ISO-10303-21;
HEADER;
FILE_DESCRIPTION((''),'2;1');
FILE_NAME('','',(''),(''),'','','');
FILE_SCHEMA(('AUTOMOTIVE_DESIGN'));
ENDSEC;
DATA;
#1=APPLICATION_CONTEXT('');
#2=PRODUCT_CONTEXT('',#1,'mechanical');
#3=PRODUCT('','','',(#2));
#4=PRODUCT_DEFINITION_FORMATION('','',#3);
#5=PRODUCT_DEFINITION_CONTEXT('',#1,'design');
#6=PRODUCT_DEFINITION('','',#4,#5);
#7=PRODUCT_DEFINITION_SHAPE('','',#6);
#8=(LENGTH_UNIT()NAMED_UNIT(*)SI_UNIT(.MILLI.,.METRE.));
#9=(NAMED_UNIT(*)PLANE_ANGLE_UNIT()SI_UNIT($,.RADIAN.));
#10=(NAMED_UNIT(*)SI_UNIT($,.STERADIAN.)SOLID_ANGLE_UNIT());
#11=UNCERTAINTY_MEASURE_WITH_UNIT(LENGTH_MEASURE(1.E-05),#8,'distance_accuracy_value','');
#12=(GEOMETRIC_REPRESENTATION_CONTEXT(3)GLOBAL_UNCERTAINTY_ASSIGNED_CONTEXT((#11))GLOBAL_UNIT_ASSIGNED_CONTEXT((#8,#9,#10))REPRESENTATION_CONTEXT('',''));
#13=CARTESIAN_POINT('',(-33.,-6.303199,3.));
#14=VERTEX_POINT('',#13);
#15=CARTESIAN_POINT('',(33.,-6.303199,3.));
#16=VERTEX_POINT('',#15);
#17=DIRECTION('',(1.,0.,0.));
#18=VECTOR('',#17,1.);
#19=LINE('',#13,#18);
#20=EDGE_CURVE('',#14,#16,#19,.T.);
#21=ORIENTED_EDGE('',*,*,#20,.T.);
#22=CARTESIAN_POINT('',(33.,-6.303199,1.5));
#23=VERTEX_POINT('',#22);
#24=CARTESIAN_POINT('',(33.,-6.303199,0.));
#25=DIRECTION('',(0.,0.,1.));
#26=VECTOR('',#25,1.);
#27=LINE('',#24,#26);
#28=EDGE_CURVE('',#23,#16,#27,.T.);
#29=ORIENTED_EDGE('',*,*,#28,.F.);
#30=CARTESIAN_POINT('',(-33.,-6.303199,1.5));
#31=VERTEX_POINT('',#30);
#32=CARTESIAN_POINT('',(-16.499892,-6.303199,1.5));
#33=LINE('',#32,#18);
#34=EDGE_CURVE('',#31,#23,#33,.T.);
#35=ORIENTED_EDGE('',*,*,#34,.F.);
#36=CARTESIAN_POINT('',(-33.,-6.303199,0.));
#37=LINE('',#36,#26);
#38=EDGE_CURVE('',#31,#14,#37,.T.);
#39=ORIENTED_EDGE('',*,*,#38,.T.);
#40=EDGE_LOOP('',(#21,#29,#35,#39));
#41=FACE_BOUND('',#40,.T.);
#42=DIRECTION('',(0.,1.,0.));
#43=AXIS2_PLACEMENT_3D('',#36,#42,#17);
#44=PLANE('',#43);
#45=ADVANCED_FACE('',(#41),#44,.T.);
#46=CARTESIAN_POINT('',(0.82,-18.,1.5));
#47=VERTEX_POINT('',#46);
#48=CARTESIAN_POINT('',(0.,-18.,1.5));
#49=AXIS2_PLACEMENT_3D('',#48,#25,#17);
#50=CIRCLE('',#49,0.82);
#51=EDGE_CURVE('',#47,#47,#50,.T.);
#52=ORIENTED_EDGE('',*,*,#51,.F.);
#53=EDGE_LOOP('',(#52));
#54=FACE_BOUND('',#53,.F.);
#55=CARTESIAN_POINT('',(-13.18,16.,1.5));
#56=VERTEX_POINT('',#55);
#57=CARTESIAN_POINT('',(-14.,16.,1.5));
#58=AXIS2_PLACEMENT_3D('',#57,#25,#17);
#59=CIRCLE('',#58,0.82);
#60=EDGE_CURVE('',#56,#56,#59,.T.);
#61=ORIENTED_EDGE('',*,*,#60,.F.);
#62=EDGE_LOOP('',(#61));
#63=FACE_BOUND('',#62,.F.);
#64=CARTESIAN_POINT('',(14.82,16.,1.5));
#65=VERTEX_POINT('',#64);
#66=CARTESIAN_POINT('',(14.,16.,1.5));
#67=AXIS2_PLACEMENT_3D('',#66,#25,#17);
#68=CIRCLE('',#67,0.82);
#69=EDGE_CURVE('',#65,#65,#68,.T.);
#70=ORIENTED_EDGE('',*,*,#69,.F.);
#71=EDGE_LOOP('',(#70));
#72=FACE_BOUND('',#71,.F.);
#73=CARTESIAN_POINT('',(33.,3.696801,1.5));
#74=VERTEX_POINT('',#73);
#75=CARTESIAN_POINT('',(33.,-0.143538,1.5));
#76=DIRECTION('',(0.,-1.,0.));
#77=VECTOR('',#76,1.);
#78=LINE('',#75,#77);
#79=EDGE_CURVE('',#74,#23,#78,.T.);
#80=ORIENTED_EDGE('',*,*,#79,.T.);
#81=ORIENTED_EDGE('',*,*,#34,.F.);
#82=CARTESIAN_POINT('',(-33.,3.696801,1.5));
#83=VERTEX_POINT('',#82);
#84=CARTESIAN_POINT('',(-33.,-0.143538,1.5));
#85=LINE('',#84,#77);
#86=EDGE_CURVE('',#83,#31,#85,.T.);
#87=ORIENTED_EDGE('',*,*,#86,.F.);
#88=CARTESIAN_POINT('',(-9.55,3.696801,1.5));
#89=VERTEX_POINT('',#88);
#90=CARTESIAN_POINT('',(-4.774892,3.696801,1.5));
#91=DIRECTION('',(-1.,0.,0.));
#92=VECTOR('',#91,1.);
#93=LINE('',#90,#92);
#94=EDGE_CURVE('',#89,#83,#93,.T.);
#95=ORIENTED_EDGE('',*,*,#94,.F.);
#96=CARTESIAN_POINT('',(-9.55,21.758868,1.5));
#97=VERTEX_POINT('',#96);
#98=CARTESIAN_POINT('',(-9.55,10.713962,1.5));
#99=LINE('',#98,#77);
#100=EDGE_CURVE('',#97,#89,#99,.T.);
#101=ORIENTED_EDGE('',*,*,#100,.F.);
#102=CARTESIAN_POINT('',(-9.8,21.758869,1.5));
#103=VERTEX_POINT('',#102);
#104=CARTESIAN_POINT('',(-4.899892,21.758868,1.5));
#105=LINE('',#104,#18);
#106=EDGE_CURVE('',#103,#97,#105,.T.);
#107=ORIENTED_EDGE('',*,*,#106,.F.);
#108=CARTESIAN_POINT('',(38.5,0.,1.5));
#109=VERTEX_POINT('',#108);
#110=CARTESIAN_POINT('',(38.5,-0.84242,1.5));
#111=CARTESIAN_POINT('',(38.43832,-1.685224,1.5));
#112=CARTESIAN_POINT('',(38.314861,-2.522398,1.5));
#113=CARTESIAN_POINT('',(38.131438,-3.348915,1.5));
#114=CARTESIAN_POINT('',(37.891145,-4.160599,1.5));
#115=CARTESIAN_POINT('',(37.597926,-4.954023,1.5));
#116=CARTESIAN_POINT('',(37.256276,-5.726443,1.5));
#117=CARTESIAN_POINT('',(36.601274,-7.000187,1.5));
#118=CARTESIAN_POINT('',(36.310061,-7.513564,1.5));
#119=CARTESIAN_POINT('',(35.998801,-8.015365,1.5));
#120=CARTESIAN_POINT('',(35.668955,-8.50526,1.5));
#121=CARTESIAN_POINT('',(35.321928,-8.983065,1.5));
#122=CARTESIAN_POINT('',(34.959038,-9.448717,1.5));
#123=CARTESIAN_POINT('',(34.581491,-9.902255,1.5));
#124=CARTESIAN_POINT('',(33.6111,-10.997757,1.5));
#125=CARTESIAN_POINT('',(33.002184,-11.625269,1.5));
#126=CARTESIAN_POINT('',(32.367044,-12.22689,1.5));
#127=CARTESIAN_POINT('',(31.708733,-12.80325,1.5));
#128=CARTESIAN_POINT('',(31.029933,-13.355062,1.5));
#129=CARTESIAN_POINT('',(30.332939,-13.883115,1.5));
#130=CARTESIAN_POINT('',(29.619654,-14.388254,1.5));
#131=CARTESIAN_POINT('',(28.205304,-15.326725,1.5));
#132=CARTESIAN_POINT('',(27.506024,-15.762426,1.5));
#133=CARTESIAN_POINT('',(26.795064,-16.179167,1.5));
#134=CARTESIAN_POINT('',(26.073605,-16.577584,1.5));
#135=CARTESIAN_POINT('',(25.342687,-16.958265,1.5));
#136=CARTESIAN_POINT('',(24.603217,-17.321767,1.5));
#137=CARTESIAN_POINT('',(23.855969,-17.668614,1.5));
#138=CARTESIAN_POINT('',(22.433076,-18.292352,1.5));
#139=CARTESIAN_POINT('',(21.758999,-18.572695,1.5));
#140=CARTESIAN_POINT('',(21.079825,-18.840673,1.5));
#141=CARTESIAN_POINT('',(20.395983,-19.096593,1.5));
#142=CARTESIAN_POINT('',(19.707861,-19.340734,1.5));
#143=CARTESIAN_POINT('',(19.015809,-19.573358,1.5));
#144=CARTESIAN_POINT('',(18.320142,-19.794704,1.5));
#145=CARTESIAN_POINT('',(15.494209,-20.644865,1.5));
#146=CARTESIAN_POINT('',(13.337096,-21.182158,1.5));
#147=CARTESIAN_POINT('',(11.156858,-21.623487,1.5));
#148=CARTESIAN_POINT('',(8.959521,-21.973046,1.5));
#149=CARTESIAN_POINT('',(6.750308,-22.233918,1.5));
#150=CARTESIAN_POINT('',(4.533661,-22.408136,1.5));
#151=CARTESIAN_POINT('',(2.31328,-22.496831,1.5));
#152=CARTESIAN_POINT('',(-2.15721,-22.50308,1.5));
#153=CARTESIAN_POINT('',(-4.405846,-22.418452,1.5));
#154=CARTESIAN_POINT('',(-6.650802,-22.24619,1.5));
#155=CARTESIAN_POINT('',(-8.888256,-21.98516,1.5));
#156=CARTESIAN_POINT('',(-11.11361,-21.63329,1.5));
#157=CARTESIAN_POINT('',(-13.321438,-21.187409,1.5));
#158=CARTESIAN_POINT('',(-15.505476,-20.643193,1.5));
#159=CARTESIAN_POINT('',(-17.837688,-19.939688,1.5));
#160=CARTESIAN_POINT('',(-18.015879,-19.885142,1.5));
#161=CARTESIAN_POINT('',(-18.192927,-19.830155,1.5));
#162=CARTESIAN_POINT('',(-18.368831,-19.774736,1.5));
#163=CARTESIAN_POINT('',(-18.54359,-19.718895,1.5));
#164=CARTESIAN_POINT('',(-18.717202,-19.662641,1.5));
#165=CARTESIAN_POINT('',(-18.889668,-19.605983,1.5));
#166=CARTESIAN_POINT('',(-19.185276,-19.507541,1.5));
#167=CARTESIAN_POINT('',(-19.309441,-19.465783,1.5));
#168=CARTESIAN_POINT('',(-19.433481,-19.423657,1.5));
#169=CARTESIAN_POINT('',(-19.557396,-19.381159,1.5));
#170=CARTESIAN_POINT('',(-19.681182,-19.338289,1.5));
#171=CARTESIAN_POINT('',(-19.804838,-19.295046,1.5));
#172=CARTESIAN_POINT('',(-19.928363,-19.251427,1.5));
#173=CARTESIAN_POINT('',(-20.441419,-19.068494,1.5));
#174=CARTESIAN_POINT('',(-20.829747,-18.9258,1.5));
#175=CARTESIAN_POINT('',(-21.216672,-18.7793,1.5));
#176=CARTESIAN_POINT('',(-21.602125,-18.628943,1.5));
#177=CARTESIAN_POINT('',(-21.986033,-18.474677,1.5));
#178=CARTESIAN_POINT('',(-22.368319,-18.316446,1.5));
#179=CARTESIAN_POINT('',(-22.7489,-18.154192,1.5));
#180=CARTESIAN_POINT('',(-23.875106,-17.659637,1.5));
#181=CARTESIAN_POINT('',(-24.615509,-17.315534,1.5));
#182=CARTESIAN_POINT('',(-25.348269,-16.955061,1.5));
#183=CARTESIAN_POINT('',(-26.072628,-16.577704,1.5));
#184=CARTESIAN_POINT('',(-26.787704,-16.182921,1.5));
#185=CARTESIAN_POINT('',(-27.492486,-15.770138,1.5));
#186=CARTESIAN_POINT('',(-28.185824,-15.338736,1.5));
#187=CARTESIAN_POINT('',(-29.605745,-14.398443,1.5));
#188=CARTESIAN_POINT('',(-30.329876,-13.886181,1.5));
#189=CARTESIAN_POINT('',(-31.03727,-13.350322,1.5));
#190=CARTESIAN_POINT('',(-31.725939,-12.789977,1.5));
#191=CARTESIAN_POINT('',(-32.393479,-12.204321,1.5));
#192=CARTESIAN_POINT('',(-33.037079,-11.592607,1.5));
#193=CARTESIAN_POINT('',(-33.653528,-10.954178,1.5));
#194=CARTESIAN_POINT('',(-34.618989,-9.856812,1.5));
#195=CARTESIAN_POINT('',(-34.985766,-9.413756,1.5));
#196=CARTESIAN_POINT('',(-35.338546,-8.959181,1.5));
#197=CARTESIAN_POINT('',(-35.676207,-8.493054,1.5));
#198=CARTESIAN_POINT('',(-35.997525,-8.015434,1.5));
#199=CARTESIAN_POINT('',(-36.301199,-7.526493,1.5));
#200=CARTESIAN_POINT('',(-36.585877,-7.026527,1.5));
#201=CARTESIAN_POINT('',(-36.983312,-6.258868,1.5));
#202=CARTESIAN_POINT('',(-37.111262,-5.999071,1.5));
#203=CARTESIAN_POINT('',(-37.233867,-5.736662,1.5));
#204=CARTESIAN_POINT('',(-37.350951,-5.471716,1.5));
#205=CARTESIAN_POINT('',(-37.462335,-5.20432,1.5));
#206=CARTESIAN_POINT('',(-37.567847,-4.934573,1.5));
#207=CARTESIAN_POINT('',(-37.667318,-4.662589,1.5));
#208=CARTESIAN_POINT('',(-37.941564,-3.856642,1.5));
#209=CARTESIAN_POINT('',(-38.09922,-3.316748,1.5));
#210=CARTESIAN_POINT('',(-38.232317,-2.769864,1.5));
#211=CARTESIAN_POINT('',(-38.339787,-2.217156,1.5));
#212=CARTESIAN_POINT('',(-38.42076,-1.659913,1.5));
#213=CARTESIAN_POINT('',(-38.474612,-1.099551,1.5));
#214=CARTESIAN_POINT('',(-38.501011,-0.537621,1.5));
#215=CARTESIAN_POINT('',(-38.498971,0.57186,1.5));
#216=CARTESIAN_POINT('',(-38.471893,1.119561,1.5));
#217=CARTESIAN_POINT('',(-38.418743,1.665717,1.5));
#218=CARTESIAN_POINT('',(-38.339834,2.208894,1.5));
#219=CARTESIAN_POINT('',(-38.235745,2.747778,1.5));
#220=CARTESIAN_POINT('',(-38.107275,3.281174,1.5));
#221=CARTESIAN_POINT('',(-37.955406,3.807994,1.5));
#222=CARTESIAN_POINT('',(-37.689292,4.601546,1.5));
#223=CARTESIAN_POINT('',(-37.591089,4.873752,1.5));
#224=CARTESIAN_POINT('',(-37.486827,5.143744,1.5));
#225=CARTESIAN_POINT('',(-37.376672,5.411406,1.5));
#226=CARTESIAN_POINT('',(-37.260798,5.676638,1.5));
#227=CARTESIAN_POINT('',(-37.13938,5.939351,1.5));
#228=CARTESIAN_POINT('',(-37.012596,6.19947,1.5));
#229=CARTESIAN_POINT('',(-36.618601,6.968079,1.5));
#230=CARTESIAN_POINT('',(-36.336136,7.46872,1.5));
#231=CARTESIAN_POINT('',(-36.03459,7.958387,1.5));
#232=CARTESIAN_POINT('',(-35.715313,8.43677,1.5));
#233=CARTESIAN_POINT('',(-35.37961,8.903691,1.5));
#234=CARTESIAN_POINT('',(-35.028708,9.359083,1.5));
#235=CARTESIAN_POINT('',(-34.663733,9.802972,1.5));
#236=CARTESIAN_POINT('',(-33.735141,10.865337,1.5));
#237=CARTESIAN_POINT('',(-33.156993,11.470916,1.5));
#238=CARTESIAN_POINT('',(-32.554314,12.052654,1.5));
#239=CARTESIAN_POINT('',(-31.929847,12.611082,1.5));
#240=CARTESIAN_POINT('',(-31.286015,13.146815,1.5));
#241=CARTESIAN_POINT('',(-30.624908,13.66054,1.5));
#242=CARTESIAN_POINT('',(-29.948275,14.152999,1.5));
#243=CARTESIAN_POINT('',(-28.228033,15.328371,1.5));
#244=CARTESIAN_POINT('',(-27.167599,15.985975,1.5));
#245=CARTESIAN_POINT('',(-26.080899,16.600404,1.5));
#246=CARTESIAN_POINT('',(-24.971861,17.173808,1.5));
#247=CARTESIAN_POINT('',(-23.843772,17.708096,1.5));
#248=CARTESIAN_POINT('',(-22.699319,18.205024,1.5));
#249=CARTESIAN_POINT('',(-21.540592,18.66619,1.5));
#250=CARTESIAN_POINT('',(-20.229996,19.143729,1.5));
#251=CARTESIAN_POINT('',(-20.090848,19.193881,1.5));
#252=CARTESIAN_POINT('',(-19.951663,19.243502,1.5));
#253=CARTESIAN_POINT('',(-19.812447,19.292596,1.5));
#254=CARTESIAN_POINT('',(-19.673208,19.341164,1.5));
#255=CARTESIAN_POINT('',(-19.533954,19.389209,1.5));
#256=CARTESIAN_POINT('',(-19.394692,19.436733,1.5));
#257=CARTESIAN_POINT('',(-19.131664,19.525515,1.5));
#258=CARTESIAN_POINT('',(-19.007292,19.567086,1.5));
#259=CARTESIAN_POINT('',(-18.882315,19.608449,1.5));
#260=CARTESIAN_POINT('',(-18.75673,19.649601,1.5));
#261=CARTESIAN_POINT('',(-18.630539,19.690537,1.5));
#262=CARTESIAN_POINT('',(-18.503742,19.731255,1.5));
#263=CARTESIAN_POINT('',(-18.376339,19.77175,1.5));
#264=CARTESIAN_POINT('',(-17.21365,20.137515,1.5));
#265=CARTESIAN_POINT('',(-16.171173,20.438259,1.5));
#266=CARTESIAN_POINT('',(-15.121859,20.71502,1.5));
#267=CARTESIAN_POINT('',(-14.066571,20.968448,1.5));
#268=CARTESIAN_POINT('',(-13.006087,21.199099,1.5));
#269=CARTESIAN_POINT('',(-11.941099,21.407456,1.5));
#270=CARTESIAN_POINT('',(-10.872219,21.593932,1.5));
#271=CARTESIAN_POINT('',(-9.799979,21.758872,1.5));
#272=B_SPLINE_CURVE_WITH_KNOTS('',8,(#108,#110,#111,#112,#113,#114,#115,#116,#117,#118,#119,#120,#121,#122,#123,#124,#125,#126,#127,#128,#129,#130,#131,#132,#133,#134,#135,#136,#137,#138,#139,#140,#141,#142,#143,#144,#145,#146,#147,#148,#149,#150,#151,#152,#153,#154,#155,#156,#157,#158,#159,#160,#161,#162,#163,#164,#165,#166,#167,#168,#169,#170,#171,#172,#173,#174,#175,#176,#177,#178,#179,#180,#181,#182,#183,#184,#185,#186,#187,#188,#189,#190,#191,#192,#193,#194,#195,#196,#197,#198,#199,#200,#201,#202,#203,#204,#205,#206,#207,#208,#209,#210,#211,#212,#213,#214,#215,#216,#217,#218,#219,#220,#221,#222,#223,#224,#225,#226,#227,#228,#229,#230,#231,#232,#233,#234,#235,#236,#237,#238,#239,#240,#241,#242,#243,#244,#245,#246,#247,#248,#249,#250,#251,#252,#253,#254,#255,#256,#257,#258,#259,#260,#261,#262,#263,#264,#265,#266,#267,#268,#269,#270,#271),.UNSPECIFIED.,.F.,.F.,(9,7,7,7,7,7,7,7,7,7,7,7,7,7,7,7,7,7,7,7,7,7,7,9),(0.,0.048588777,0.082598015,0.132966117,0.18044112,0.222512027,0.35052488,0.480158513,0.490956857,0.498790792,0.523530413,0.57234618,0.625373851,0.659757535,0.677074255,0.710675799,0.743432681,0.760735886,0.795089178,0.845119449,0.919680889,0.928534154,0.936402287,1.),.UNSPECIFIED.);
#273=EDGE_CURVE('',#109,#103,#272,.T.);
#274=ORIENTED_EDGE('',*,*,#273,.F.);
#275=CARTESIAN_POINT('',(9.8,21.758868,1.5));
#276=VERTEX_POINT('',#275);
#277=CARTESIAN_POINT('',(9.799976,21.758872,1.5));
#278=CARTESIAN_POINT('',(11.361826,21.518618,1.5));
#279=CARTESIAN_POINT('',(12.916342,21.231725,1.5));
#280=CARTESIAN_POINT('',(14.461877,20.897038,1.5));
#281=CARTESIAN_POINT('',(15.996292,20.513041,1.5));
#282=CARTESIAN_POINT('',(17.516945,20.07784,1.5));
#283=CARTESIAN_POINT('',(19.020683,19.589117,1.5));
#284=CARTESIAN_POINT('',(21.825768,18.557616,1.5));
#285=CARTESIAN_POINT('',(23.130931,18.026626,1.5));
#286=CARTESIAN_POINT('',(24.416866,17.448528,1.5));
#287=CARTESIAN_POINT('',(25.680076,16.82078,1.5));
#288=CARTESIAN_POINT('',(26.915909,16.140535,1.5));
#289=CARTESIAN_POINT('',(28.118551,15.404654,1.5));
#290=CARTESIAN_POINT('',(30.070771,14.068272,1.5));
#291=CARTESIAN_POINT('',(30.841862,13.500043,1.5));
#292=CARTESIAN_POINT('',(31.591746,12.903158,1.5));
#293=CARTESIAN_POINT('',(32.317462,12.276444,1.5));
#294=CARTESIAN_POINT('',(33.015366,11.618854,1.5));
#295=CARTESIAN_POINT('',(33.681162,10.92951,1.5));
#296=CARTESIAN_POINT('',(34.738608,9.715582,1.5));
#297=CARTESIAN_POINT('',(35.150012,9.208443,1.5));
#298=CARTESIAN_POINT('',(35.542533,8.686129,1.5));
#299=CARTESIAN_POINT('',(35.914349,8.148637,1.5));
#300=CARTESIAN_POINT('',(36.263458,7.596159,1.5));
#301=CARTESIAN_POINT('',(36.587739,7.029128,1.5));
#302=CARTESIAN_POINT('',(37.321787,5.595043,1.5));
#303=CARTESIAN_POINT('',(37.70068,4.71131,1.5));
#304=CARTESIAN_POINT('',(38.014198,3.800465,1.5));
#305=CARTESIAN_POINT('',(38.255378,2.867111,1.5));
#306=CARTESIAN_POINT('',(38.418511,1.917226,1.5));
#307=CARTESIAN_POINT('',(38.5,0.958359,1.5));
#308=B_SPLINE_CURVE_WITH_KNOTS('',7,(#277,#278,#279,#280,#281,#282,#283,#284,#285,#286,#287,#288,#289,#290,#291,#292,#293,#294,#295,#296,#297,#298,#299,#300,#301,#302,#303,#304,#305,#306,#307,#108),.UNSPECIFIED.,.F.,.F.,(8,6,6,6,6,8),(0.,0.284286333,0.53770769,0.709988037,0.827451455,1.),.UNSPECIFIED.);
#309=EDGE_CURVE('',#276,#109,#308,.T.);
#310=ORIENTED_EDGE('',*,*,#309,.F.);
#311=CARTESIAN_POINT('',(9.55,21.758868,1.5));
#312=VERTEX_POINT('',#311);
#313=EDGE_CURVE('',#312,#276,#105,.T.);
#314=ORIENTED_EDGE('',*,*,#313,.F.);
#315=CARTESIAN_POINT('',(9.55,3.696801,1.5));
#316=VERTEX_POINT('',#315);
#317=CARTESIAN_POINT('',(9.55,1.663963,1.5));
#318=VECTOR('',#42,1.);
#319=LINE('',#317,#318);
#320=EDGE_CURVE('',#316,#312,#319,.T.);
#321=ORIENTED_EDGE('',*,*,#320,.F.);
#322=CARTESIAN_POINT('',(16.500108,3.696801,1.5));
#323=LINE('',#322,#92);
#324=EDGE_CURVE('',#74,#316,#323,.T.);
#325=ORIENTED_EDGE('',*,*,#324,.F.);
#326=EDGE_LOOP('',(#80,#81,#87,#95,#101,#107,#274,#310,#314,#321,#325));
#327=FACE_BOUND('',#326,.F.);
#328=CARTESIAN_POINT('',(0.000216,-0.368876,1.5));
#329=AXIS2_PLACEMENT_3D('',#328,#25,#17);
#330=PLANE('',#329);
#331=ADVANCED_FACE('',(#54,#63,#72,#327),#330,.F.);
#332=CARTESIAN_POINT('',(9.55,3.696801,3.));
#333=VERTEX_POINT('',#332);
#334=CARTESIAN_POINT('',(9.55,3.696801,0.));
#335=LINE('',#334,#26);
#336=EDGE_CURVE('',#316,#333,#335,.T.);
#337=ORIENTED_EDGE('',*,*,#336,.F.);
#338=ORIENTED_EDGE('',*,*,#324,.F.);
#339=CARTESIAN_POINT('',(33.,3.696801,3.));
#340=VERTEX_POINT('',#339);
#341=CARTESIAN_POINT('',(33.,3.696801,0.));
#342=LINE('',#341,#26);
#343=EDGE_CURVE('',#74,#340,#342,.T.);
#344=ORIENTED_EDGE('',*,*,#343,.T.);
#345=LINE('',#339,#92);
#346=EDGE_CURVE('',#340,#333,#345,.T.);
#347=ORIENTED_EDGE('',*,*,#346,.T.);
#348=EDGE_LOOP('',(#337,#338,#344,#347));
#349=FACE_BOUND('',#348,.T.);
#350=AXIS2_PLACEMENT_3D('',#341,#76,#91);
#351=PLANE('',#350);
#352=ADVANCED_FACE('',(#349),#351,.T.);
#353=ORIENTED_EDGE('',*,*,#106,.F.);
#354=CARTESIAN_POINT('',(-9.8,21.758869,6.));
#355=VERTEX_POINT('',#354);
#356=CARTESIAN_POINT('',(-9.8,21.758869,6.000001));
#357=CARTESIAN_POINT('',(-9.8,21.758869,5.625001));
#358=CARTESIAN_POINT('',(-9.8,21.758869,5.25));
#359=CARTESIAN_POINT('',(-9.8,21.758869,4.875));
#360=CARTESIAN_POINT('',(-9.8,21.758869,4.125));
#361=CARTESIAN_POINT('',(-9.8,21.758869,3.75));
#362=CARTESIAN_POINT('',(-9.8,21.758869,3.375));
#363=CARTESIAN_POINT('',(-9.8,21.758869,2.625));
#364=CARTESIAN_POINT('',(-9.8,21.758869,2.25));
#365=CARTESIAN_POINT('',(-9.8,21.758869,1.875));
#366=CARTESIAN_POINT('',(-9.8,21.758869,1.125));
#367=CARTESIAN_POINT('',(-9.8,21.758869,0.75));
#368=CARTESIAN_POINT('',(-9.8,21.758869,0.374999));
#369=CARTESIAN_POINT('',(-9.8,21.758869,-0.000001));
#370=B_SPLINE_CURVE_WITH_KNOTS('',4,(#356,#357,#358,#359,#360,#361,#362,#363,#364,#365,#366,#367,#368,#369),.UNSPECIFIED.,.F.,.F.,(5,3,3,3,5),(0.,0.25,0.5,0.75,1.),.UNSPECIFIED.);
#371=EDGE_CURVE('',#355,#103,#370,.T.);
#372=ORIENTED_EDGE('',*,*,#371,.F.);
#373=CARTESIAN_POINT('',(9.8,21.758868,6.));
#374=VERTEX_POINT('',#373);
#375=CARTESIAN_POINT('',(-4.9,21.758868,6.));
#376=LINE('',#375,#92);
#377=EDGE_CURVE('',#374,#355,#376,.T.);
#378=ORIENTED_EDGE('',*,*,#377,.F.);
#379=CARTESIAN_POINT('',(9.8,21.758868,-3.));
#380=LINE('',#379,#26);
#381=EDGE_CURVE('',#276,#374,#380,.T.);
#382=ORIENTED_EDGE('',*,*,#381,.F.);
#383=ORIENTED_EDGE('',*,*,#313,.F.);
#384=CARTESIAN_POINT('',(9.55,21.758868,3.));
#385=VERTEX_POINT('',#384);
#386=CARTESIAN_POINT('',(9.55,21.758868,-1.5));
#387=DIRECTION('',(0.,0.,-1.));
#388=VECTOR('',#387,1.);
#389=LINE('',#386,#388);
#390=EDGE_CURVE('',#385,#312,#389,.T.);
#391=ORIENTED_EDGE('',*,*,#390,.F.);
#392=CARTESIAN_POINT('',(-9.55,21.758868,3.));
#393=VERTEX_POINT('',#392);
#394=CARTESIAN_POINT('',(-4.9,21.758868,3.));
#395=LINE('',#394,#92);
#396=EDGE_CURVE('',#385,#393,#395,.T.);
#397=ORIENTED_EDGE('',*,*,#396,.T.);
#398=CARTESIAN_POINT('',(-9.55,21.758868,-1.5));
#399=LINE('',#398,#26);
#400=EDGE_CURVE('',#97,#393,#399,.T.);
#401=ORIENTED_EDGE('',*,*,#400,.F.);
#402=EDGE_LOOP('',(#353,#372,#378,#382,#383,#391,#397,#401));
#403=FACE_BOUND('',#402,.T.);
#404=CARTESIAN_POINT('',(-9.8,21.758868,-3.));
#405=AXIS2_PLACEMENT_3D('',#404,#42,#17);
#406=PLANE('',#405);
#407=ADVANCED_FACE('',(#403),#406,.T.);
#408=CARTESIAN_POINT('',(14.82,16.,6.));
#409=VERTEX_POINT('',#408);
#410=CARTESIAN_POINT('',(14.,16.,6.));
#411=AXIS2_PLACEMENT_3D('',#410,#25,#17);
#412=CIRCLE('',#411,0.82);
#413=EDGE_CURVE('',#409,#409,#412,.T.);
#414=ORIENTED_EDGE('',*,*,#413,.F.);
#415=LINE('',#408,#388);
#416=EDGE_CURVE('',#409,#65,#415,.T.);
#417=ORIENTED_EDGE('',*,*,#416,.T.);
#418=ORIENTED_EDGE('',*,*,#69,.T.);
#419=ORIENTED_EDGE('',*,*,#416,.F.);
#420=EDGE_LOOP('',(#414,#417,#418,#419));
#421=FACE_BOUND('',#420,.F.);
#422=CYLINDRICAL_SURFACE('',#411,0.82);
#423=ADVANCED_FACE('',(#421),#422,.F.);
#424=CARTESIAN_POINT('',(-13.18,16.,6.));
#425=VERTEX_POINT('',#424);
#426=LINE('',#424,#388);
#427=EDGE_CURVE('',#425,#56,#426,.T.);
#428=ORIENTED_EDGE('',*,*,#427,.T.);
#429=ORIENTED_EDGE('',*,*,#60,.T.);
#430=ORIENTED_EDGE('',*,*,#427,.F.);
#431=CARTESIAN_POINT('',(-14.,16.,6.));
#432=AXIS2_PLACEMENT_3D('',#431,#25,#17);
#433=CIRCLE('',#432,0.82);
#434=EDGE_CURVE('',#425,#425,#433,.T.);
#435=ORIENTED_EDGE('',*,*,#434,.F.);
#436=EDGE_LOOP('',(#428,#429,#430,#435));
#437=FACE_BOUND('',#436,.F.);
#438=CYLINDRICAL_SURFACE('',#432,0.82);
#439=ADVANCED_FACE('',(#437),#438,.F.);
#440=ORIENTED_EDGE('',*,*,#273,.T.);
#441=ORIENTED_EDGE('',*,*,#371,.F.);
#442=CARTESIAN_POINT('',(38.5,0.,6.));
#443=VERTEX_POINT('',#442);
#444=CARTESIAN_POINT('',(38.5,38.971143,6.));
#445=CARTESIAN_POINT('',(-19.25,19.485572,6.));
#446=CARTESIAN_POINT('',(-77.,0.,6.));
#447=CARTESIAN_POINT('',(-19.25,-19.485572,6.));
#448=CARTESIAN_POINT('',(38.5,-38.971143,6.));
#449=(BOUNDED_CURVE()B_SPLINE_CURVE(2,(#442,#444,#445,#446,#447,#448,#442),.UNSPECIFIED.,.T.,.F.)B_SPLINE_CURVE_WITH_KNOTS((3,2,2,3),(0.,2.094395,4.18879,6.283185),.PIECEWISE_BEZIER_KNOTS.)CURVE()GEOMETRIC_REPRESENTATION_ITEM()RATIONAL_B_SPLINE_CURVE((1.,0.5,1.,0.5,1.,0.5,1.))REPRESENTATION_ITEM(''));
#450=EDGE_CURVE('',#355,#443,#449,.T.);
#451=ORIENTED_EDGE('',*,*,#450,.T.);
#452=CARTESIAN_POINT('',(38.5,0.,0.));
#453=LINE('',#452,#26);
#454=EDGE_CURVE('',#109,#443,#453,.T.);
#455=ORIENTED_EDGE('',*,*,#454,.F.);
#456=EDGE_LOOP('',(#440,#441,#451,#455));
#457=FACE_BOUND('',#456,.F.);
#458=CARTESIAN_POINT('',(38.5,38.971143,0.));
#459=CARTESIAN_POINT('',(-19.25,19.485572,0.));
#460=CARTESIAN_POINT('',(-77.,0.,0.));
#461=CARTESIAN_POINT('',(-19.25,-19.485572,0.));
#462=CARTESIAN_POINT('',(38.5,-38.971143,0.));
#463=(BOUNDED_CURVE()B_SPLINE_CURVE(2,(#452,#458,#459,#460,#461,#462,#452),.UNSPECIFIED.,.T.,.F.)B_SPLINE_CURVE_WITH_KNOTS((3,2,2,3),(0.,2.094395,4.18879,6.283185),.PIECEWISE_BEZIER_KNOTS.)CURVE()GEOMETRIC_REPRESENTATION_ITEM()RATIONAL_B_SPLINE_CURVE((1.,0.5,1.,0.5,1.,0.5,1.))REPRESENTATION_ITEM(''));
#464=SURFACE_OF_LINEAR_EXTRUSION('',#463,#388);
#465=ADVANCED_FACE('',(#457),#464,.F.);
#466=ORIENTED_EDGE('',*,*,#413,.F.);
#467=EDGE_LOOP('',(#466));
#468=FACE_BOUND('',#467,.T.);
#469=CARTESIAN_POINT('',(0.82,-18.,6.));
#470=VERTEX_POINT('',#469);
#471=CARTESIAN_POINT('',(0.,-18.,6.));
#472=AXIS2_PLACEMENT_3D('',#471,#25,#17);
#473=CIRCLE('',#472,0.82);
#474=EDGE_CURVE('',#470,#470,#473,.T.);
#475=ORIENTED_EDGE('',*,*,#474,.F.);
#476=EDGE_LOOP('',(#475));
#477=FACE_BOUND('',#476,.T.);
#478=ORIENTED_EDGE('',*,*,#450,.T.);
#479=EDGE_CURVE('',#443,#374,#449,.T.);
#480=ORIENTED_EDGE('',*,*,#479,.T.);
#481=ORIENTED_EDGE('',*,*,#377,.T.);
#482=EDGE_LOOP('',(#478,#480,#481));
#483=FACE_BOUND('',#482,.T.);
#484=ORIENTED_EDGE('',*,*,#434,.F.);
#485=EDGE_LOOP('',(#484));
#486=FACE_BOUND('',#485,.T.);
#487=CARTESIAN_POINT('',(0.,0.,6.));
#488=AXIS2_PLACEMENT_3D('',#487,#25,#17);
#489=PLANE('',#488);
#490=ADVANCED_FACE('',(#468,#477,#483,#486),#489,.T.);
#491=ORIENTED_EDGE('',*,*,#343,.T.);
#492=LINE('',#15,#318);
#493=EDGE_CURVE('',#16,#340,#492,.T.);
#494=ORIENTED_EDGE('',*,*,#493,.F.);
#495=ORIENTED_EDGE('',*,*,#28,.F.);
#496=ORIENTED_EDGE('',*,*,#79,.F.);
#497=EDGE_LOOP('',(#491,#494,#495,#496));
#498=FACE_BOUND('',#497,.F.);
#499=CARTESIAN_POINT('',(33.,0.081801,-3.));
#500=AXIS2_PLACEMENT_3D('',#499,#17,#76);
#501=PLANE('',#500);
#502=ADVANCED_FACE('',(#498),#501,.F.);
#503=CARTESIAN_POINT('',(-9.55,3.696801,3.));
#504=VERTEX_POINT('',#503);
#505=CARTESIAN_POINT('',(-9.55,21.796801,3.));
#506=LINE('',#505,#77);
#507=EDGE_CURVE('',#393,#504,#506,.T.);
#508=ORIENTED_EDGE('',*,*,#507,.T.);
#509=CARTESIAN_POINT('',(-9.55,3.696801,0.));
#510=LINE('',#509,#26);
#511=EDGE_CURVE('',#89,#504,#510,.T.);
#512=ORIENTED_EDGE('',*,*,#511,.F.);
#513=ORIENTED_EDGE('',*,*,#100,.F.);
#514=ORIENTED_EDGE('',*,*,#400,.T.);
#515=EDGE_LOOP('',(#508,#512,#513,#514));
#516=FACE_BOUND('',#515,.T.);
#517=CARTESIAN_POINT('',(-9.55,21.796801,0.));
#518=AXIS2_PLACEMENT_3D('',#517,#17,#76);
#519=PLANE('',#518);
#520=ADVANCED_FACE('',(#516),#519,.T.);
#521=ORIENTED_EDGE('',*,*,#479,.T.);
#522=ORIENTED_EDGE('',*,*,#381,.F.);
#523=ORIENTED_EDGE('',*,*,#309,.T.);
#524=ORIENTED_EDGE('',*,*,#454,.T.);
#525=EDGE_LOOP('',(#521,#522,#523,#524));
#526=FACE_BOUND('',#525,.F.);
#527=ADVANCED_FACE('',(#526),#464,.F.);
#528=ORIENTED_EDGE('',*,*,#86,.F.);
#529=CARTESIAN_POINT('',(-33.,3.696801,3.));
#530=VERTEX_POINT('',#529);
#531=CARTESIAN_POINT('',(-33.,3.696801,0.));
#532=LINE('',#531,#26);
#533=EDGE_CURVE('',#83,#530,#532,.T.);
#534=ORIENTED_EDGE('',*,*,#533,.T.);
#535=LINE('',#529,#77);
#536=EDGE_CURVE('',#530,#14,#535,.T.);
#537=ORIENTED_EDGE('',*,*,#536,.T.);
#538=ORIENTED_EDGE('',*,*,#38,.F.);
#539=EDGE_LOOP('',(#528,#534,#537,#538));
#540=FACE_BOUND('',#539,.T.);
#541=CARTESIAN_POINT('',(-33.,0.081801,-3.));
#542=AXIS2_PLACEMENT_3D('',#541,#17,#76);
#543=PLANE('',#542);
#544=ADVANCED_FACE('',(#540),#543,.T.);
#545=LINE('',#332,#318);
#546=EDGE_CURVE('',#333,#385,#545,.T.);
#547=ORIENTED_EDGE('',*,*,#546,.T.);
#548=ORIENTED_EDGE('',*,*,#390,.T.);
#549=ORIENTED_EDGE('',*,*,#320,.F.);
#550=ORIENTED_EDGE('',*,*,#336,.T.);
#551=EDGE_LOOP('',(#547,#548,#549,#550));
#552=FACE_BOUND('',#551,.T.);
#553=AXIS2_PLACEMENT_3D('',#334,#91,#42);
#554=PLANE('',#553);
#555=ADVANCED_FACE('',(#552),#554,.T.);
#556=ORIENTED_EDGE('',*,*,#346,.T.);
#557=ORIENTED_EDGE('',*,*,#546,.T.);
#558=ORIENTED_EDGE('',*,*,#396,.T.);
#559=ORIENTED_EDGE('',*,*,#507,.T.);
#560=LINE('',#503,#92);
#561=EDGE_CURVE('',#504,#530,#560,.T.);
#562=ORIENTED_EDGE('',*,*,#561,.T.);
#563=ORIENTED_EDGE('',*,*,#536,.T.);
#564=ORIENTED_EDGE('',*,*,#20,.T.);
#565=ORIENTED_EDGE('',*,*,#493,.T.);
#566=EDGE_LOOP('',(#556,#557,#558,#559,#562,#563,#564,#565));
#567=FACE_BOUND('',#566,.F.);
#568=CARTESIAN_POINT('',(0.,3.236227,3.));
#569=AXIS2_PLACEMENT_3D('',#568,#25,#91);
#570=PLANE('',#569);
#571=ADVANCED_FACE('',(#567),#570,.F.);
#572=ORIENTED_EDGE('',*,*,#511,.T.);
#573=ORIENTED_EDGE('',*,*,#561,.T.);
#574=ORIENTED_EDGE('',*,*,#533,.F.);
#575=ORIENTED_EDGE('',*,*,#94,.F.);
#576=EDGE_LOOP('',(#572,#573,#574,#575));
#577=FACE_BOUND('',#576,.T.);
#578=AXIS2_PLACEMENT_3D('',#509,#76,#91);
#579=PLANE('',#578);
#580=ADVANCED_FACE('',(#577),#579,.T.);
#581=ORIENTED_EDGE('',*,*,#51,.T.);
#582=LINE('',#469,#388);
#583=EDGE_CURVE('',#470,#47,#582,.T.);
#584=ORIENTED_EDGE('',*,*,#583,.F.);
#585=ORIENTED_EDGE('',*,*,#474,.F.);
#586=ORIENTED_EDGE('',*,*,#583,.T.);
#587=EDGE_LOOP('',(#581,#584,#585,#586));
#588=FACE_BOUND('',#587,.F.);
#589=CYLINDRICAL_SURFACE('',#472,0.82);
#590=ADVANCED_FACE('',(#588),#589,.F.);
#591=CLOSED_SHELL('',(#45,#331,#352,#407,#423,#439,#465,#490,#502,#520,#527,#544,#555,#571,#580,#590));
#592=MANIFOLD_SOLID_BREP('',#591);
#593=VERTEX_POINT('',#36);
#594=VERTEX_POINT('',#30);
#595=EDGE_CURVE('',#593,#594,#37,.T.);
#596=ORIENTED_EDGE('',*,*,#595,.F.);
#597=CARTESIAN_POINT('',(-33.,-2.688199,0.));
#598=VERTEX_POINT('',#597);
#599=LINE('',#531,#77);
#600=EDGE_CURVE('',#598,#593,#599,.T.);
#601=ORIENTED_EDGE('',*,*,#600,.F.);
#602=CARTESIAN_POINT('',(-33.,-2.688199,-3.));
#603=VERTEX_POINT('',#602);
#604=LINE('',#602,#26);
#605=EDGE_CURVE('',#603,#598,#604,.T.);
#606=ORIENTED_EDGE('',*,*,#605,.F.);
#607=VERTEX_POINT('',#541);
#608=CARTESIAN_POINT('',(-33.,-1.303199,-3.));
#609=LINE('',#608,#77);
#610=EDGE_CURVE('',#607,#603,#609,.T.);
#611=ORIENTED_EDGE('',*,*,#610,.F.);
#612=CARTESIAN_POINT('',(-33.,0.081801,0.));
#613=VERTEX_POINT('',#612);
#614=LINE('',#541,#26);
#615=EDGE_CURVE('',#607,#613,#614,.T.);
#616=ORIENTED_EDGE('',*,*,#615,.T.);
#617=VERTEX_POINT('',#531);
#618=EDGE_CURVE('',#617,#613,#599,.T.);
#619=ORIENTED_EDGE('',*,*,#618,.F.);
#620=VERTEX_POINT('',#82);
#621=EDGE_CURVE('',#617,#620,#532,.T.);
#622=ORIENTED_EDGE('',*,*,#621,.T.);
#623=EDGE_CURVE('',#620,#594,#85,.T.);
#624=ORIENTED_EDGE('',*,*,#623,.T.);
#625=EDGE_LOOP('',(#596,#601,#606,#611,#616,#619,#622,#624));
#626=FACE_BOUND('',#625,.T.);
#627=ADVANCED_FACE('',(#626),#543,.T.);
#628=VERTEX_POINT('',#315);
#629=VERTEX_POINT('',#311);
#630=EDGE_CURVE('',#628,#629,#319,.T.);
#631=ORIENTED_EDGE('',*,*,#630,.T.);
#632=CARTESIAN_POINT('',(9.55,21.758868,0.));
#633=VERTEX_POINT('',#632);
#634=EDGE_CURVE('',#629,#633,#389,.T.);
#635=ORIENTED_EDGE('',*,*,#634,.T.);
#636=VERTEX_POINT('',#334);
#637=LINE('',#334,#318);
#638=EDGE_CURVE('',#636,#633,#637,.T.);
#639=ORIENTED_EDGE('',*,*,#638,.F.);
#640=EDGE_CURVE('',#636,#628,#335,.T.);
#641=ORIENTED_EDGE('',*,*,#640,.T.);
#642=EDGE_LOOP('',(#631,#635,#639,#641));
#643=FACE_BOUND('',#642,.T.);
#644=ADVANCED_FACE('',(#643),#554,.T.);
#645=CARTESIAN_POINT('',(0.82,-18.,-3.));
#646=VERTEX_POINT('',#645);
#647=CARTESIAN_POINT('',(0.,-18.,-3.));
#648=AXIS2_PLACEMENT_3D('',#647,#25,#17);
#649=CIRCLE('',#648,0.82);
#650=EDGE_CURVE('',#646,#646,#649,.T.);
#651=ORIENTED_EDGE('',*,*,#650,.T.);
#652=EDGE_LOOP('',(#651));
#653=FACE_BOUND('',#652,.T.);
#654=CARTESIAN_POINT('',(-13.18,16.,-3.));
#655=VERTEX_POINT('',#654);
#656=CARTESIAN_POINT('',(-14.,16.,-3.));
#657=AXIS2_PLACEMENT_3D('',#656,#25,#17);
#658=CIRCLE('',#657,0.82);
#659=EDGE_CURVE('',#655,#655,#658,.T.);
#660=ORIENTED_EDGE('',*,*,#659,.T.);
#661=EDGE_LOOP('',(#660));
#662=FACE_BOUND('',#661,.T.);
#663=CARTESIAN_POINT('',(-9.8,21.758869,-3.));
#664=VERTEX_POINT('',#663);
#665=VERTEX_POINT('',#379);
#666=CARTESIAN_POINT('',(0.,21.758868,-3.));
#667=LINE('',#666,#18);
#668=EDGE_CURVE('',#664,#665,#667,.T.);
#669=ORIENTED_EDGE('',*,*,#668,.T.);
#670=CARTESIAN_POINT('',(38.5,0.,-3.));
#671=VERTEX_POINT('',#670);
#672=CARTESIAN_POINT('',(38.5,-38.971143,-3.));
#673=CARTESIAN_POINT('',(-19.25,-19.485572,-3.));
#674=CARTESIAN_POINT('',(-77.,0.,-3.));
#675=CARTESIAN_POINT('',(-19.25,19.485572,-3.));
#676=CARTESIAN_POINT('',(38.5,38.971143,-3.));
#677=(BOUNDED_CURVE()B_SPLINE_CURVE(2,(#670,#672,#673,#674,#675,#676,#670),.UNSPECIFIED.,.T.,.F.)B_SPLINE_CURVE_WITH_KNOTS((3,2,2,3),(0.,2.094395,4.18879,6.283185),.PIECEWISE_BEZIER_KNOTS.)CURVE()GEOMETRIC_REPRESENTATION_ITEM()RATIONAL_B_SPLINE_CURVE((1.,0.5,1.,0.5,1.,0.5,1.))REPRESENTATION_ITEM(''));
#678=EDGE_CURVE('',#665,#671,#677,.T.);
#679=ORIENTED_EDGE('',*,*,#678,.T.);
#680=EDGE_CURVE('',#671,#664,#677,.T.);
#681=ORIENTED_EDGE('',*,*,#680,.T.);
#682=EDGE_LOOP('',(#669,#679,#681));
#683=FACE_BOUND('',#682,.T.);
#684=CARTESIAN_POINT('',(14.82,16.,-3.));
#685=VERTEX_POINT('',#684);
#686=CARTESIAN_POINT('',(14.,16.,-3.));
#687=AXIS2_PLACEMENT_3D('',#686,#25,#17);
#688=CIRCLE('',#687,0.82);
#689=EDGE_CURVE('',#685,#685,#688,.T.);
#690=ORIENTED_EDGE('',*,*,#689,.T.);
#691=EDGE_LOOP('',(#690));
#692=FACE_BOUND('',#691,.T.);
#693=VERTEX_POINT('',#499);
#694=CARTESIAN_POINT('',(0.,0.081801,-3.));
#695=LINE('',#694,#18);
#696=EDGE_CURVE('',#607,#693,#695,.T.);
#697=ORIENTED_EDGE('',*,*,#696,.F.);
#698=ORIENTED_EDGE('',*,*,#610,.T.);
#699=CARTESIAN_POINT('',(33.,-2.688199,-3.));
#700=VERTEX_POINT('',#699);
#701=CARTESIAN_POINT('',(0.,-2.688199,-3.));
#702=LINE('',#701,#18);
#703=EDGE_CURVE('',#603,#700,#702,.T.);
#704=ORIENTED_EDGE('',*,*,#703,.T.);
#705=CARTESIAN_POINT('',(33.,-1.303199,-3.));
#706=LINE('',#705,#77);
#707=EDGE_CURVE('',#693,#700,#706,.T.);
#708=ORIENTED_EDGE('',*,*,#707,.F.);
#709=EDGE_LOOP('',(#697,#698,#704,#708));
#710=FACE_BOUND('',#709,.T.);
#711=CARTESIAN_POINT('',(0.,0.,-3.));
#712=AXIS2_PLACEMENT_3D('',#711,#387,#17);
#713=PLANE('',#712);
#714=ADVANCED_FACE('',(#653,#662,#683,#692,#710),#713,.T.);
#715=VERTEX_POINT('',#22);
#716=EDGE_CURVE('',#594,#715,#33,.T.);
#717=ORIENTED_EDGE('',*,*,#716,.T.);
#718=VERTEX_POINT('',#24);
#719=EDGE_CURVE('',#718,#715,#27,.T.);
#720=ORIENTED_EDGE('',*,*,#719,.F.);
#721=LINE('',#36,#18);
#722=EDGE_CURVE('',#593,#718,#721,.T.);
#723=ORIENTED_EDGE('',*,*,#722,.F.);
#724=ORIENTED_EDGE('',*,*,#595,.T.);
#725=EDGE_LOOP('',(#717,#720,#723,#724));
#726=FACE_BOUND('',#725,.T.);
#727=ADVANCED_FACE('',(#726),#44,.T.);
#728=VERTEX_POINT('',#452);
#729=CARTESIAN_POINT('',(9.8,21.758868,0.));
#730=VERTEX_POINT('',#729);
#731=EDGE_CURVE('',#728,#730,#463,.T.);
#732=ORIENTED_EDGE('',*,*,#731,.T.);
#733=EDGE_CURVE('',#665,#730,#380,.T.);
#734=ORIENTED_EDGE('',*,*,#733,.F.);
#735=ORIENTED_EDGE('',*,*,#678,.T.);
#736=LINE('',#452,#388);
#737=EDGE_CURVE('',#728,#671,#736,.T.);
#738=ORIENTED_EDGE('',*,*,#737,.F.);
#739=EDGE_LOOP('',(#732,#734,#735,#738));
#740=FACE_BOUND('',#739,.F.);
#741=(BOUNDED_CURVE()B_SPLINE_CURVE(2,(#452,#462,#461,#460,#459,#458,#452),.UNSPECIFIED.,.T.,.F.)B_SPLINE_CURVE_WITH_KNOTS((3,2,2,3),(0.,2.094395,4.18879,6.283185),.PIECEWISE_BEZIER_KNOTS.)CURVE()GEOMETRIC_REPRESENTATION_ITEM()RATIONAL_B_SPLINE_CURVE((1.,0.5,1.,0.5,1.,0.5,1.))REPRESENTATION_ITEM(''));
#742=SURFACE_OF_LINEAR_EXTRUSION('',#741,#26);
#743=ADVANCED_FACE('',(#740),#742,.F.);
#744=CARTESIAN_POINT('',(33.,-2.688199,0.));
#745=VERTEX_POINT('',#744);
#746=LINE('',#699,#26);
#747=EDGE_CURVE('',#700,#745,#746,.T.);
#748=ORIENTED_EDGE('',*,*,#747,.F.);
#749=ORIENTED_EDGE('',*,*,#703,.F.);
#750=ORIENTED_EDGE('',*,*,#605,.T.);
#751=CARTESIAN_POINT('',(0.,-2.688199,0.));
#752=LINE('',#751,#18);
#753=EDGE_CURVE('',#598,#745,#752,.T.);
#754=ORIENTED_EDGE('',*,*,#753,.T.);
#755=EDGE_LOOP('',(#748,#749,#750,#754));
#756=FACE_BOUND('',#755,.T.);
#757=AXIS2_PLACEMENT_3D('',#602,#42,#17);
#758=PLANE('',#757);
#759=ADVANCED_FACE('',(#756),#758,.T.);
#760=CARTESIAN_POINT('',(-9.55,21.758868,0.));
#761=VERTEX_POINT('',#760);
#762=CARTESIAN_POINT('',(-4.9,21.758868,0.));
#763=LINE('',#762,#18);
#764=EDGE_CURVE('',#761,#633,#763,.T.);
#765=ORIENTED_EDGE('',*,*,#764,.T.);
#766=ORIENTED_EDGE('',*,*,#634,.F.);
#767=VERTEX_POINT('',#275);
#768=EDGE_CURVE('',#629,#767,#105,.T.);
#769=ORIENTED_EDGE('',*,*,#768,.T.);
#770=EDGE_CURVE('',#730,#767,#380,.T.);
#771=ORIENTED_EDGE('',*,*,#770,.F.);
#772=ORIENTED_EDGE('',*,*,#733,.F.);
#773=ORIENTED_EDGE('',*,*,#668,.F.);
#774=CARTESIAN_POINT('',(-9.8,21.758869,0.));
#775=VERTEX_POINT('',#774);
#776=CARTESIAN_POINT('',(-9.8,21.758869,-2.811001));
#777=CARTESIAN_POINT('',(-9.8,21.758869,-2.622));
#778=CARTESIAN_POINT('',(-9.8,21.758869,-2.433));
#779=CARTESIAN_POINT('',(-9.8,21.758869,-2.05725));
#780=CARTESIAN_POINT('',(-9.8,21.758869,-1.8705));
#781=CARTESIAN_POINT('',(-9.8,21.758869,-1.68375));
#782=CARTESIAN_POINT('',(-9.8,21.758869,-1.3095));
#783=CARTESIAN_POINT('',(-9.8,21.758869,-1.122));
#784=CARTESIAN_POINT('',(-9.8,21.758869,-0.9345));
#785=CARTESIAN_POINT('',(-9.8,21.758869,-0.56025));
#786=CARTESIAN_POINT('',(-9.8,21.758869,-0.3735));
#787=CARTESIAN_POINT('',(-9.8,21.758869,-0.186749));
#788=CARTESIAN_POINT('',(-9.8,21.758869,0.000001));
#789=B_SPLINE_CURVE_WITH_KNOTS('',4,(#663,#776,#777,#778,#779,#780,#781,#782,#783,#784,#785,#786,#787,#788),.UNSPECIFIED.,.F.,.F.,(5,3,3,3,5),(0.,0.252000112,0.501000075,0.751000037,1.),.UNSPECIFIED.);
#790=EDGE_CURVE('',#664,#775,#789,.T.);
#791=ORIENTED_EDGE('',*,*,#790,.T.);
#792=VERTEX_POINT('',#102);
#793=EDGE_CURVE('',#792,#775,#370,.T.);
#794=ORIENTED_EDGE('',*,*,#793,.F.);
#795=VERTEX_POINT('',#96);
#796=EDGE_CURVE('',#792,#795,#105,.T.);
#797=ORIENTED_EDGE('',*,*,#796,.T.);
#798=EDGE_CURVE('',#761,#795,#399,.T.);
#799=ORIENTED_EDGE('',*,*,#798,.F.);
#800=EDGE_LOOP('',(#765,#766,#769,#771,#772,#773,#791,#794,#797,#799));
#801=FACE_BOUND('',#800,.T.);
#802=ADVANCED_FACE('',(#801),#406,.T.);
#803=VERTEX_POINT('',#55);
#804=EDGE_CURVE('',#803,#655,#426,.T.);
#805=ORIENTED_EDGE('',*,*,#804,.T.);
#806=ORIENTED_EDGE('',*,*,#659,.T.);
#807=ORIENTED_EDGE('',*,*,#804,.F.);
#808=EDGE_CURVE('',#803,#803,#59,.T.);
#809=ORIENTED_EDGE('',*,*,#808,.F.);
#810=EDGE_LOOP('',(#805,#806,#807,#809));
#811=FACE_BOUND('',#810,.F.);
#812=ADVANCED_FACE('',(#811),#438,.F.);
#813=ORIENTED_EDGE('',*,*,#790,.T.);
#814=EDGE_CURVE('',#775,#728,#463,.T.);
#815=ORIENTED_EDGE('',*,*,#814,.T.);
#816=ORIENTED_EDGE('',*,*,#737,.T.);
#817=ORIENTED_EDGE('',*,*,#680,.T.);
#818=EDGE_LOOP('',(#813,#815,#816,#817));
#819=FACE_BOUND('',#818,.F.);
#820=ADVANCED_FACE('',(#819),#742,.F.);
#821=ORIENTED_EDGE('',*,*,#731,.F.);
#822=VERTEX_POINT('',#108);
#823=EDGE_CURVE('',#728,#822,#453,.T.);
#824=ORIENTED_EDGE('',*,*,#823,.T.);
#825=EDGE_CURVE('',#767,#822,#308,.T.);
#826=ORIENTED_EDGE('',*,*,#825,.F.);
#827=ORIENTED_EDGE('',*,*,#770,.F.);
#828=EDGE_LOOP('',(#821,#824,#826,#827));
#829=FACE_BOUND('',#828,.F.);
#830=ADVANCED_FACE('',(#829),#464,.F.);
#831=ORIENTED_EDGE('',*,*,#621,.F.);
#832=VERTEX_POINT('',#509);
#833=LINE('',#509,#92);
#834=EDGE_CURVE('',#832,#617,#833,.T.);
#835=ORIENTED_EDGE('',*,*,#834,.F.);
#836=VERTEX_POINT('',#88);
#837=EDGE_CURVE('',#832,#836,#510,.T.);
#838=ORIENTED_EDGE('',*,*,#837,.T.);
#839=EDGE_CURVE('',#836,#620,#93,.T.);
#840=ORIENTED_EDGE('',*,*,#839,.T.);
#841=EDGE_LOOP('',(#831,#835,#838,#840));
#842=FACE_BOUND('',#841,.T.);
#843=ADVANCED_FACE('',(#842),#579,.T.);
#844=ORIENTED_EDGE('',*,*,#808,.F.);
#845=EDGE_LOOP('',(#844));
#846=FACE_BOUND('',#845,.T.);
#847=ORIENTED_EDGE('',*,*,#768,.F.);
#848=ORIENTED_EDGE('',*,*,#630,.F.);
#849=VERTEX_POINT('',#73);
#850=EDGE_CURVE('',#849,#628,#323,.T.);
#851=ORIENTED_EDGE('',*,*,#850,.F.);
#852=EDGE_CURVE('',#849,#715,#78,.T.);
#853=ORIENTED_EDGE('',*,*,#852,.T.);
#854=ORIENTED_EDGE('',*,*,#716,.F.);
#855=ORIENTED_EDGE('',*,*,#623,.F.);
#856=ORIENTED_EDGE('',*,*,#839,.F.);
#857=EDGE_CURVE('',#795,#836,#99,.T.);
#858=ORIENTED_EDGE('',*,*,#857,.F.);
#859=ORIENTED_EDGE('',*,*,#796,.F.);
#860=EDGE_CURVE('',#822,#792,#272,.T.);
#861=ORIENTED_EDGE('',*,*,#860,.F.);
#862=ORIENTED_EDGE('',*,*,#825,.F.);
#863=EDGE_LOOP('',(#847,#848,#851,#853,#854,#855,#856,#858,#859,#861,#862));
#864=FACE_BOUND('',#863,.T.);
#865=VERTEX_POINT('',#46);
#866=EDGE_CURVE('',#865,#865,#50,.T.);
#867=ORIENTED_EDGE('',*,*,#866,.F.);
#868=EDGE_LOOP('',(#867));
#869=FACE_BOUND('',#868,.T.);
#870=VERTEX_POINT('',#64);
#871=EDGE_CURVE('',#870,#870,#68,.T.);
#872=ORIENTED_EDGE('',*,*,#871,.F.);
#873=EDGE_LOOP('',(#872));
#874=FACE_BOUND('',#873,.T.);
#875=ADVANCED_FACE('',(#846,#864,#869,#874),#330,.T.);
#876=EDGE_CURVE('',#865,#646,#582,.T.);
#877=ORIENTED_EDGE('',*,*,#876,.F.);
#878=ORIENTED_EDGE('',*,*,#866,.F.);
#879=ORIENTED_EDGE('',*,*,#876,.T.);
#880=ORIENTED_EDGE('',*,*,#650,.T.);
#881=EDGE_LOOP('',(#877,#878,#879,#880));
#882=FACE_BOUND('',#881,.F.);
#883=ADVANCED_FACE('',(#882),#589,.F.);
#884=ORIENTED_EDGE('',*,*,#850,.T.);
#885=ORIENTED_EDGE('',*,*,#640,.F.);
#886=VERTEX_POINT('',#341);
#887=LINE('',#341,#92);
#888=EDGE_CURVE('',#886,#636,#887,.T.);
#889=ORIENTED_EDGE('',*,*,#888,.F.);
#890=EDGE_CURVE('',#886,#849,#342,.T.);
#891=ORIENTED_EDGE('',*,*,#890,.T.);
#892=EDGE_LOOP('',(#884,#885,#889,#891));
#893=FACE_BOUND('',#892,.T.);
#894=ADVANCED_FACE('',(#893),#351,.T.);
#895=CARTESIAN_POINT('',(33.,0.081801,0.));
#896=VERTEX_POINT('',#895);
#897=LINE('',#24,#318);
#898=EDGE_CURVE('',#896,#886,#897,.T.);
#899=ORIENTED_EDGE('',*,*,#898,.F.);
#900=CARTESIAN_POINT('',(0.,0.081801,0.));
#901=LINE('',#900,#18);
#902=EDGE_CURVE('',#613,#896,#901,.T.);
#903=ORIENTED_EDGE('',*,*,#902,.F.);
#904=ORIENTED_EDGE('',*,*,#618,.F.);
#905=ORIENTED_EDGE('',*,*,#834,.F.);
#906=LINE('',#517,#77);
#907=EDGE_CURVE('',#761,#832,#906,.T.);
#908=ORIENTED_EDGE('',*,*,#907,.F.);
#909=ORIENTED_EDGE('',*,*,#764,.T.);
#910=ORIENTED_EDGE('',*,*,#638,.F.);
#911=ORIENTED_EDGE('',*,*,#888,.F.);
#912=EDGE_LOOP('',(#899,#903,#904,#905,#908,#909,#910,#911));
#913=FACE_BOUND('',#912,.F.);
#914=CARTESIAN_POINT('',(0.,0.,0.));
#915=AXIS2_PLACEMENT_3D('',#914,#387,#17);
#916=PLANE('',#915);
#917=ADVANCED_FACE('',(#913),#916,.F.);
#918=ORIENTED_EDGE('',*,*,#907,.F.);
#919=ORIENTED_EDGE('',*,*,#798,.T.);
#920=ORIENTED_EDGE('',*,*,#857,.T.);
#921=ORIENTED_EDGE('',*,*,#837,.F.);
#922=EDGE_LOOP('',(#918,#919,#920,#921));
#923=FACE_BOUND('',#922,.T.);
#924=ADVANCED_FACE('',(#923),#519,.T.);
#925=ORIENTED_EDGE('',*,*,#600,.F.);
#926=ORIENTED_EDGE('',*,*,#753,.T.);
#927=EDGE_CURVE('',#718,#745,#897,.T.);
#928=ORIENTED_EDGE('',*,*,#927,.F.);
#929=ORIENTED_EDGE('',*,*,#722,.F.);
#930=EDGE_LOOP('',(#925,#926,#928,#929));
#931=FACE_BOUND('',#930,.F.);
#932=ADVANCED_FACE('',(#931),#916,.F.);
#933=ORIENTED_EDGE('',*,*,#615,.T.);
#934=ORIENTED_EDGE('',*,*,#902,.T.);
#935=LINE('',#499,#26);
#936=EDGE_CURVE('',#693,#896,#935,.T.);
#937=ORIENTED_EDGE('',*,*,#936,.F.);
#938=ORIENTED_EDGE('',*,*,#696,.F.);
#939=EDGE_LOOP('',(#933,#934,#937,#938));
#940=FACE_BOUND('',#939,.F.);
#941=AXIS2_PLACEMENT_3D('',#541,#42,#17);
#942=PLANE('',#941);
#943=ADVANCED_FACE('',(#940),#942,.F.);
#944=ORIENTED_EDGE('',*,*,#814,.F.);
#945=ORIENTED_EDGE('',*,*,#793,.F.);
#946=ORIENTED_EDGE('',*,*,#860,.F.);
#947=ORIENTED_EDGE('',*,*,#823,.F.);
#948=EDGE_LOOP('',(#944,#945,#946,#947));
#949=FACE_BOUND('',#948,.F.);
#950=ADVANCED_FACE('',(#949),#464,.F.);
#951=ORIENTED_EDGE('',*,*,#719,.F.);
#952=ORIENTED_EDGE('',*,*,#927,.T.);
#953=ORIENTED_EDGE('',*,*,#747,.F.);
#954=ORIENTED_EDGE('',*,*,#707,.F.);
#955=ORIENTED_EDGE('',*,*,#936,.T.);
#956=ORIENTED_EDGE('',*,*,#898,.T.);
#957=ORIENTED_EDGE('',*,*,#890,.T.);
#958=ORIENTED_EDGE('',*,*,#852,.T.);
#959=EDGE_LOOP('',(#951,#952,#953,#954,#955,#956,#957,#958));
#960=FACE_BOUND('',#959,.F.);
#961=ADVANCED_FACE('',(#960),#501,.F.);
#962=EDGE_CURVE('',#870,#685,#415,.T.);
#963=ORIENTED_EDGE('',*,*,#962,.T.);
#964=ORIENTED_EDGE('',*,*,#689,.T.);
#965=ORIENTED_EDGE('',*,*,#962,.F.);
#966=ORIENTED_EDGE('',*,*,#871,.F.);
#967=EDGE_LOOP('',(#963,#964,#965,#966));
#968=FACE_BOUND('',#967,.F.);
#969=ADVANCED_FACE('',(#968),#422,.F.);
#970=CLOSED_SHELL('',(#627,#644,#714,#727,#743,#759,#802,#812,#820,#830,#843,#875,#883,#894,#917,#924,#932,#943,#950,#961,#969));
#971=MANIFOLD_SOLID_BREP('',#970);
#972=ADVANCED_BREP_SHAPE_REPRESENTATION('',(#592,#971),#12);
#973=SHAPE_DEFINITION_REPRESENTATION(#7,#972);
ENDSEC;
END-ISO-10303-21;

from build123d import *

# Parameters (mm, degrees)
BOX_BOTTOM_HALF_0_W     = 78.999568
BOX_BOTTOM_HALF_0_H     = 46.255487
BOX_BOTTOM_HALF_0_DEPTH = 5.5
PAD_DEPTH               = 6
POCKET_DEPTH            = 3
PAD001_DEPTH            = 3
SKETCH003_W             = 66
SKETCH003_H             = 2.77
POCKET001_DEPTH         = 3
SKETCH004_W             = 19.6
SKETCH004_H             = 1
POCKET002_DEPTH         = 9.001
SKETCH005_R             = 0.82
POCKET003_DEPTH         = 9.001


with BuildPart() as box_bottom_half_0_body:
    # box_bottom_half_0 → box_bottom_half_0 (new body)
    with BuildSketch(Plane(origin=(-39.499568, -23.496619, -4), x_dir=(1, 0, 0), z_dir=(0, 0, 1))):
        with Locations((39.499784, 23.127743)):
            Rectangle(BOX_BOTTOM_HALF_0_W, BOX_BOTTOM_HALF_0_H)
    extrude(amount=BOX_BOTTOM_HALF_0_DEPTH)


with BuildPart() as body:
    # Sketch → Pad (new body)
    with BuildSketch(Plane.XY):
        with BuildLine():
            add(Edge.make_bspline(
                [(38.5, 0), (38.5, 38.971143), (-19.25, 19.485572), (-77, 0), (-19.25, -19.485572), (38.5, -38.971143), (38.5, 0)],
                knots=[0, 0, 0, 2.094395, 2.094395, 4.18879, 4.18879, 6.283185, 6.283185, 6.283185], degree=2, weights=[1, 0.5, 1, 0.5, 1, 0.5, 1]))
        make_face()
    extrude(amount=PAD_DEPTH)

    # Sketch001 (on Face2 of Pad) → Pocket (cut)
    with BuildSketch(Plane(origin=(0, 0, 0), x_dir=(1, 0, 0), z_dir=(0, 0, -1))):
        Polygon((9.55, -3.696801), (9.55, -21.796801), (-9.55, -21.796801), (-9.55, -3.696801), (-33, -3.696801), (-33, 6.303199), (33, 6.303199), (33, -3.696801), align=None)
    extrude(amount=-POCKET_DEPTH, mode=Mode.SUBTRACT)

    # Sketch002 (on Face2 of Pocket) → Pad001 (join)
    with BuildSketch(Plane(origin=(0, 0, 0), x_dir=(1, 0, 0), z_dir=(0, 0, -1))):
        with BuildLine():
            add(Edge.make_bspline(
                [(38.5, 0), (38.5, 38.971143), (-19.25, 19.485572), (-77, 0), (-19.25, -19.485572), (38.5, -38.971143), (38.5, 0)],
                knots=[0, 0, 0, 2.094395, 2.094395, 4.18879, 4.18879, 6.283185, 6.283185, 6.283185], degree=2, weights=[1, 0.5, 1, 0.5, 1, 0.5, 1]))
        make_face()
    extrude(amount=PAD001_DEPTH)

    # Sketch003 (on Face4 of Pad001) → Pocket001 (cut)
    with BuildSketch(Plane(origin=(0, 0, -3), x_dir=(1, 0, 0), z_dir=(0, 0, -1))):
        with Locations((0, 1.303199)):
            Rectangle(SKETCH003_W, SKETCH003_H)
    extrude(amount=-POCKET001_DEPTH, mode=Mode.SUBTRACT)

    # Sketch004 (on Face4 of Pocket001) → Pocket002 (cut, through all)
    with BuildSketch(Plane(origin=(0, 0, -3), x_dir=(1, 0, 0), z_dir=(0, 0, -1))):
        with Locations((0, -22.258868)):
            Rectangle(SKETCH004_W, SKETCH004_H)
    extrude(amount=-POCKET002_DEPTH, mode=Mode.SUBTRACT)

    # Sketch005 (on Face4 of Pocket002) → Pocket003 (cut, through all)
    with BuildSketch(Plane.XY.offset(6)):
        with Locations((-14, 16)):
            Circle(SKETCH005_R)
        with Locations((14, 16)):
            Circle(SKETCH005_R)
        with Locations((0, -18)):
            Circle(SKETCH005_R)
    extrude(amount=-POCKET003_DEPTH, mode=Mode.SUBTRACT)


with BuildPart() as bottom_half_0_body:
    # bottom_half_0 base: copy of Body
    add(body.part)

    # bottom_half_0: intersect box_bottom_half_0 body
    add(box_bottom_half_0_body.part, mode=Mode.INTERSECT)


with BuildPart() as top_half_0_body:
    # top_half_0 base: copy of Body
    add(body.part)

    # top_half_0: cut box_bottom_half_0 body
    add(box_bottom_half_0_body.part, mode=Mode.SUBTRACT)


solid = Compound([bottom_half_0_body.part, top_half_0_body.part])
